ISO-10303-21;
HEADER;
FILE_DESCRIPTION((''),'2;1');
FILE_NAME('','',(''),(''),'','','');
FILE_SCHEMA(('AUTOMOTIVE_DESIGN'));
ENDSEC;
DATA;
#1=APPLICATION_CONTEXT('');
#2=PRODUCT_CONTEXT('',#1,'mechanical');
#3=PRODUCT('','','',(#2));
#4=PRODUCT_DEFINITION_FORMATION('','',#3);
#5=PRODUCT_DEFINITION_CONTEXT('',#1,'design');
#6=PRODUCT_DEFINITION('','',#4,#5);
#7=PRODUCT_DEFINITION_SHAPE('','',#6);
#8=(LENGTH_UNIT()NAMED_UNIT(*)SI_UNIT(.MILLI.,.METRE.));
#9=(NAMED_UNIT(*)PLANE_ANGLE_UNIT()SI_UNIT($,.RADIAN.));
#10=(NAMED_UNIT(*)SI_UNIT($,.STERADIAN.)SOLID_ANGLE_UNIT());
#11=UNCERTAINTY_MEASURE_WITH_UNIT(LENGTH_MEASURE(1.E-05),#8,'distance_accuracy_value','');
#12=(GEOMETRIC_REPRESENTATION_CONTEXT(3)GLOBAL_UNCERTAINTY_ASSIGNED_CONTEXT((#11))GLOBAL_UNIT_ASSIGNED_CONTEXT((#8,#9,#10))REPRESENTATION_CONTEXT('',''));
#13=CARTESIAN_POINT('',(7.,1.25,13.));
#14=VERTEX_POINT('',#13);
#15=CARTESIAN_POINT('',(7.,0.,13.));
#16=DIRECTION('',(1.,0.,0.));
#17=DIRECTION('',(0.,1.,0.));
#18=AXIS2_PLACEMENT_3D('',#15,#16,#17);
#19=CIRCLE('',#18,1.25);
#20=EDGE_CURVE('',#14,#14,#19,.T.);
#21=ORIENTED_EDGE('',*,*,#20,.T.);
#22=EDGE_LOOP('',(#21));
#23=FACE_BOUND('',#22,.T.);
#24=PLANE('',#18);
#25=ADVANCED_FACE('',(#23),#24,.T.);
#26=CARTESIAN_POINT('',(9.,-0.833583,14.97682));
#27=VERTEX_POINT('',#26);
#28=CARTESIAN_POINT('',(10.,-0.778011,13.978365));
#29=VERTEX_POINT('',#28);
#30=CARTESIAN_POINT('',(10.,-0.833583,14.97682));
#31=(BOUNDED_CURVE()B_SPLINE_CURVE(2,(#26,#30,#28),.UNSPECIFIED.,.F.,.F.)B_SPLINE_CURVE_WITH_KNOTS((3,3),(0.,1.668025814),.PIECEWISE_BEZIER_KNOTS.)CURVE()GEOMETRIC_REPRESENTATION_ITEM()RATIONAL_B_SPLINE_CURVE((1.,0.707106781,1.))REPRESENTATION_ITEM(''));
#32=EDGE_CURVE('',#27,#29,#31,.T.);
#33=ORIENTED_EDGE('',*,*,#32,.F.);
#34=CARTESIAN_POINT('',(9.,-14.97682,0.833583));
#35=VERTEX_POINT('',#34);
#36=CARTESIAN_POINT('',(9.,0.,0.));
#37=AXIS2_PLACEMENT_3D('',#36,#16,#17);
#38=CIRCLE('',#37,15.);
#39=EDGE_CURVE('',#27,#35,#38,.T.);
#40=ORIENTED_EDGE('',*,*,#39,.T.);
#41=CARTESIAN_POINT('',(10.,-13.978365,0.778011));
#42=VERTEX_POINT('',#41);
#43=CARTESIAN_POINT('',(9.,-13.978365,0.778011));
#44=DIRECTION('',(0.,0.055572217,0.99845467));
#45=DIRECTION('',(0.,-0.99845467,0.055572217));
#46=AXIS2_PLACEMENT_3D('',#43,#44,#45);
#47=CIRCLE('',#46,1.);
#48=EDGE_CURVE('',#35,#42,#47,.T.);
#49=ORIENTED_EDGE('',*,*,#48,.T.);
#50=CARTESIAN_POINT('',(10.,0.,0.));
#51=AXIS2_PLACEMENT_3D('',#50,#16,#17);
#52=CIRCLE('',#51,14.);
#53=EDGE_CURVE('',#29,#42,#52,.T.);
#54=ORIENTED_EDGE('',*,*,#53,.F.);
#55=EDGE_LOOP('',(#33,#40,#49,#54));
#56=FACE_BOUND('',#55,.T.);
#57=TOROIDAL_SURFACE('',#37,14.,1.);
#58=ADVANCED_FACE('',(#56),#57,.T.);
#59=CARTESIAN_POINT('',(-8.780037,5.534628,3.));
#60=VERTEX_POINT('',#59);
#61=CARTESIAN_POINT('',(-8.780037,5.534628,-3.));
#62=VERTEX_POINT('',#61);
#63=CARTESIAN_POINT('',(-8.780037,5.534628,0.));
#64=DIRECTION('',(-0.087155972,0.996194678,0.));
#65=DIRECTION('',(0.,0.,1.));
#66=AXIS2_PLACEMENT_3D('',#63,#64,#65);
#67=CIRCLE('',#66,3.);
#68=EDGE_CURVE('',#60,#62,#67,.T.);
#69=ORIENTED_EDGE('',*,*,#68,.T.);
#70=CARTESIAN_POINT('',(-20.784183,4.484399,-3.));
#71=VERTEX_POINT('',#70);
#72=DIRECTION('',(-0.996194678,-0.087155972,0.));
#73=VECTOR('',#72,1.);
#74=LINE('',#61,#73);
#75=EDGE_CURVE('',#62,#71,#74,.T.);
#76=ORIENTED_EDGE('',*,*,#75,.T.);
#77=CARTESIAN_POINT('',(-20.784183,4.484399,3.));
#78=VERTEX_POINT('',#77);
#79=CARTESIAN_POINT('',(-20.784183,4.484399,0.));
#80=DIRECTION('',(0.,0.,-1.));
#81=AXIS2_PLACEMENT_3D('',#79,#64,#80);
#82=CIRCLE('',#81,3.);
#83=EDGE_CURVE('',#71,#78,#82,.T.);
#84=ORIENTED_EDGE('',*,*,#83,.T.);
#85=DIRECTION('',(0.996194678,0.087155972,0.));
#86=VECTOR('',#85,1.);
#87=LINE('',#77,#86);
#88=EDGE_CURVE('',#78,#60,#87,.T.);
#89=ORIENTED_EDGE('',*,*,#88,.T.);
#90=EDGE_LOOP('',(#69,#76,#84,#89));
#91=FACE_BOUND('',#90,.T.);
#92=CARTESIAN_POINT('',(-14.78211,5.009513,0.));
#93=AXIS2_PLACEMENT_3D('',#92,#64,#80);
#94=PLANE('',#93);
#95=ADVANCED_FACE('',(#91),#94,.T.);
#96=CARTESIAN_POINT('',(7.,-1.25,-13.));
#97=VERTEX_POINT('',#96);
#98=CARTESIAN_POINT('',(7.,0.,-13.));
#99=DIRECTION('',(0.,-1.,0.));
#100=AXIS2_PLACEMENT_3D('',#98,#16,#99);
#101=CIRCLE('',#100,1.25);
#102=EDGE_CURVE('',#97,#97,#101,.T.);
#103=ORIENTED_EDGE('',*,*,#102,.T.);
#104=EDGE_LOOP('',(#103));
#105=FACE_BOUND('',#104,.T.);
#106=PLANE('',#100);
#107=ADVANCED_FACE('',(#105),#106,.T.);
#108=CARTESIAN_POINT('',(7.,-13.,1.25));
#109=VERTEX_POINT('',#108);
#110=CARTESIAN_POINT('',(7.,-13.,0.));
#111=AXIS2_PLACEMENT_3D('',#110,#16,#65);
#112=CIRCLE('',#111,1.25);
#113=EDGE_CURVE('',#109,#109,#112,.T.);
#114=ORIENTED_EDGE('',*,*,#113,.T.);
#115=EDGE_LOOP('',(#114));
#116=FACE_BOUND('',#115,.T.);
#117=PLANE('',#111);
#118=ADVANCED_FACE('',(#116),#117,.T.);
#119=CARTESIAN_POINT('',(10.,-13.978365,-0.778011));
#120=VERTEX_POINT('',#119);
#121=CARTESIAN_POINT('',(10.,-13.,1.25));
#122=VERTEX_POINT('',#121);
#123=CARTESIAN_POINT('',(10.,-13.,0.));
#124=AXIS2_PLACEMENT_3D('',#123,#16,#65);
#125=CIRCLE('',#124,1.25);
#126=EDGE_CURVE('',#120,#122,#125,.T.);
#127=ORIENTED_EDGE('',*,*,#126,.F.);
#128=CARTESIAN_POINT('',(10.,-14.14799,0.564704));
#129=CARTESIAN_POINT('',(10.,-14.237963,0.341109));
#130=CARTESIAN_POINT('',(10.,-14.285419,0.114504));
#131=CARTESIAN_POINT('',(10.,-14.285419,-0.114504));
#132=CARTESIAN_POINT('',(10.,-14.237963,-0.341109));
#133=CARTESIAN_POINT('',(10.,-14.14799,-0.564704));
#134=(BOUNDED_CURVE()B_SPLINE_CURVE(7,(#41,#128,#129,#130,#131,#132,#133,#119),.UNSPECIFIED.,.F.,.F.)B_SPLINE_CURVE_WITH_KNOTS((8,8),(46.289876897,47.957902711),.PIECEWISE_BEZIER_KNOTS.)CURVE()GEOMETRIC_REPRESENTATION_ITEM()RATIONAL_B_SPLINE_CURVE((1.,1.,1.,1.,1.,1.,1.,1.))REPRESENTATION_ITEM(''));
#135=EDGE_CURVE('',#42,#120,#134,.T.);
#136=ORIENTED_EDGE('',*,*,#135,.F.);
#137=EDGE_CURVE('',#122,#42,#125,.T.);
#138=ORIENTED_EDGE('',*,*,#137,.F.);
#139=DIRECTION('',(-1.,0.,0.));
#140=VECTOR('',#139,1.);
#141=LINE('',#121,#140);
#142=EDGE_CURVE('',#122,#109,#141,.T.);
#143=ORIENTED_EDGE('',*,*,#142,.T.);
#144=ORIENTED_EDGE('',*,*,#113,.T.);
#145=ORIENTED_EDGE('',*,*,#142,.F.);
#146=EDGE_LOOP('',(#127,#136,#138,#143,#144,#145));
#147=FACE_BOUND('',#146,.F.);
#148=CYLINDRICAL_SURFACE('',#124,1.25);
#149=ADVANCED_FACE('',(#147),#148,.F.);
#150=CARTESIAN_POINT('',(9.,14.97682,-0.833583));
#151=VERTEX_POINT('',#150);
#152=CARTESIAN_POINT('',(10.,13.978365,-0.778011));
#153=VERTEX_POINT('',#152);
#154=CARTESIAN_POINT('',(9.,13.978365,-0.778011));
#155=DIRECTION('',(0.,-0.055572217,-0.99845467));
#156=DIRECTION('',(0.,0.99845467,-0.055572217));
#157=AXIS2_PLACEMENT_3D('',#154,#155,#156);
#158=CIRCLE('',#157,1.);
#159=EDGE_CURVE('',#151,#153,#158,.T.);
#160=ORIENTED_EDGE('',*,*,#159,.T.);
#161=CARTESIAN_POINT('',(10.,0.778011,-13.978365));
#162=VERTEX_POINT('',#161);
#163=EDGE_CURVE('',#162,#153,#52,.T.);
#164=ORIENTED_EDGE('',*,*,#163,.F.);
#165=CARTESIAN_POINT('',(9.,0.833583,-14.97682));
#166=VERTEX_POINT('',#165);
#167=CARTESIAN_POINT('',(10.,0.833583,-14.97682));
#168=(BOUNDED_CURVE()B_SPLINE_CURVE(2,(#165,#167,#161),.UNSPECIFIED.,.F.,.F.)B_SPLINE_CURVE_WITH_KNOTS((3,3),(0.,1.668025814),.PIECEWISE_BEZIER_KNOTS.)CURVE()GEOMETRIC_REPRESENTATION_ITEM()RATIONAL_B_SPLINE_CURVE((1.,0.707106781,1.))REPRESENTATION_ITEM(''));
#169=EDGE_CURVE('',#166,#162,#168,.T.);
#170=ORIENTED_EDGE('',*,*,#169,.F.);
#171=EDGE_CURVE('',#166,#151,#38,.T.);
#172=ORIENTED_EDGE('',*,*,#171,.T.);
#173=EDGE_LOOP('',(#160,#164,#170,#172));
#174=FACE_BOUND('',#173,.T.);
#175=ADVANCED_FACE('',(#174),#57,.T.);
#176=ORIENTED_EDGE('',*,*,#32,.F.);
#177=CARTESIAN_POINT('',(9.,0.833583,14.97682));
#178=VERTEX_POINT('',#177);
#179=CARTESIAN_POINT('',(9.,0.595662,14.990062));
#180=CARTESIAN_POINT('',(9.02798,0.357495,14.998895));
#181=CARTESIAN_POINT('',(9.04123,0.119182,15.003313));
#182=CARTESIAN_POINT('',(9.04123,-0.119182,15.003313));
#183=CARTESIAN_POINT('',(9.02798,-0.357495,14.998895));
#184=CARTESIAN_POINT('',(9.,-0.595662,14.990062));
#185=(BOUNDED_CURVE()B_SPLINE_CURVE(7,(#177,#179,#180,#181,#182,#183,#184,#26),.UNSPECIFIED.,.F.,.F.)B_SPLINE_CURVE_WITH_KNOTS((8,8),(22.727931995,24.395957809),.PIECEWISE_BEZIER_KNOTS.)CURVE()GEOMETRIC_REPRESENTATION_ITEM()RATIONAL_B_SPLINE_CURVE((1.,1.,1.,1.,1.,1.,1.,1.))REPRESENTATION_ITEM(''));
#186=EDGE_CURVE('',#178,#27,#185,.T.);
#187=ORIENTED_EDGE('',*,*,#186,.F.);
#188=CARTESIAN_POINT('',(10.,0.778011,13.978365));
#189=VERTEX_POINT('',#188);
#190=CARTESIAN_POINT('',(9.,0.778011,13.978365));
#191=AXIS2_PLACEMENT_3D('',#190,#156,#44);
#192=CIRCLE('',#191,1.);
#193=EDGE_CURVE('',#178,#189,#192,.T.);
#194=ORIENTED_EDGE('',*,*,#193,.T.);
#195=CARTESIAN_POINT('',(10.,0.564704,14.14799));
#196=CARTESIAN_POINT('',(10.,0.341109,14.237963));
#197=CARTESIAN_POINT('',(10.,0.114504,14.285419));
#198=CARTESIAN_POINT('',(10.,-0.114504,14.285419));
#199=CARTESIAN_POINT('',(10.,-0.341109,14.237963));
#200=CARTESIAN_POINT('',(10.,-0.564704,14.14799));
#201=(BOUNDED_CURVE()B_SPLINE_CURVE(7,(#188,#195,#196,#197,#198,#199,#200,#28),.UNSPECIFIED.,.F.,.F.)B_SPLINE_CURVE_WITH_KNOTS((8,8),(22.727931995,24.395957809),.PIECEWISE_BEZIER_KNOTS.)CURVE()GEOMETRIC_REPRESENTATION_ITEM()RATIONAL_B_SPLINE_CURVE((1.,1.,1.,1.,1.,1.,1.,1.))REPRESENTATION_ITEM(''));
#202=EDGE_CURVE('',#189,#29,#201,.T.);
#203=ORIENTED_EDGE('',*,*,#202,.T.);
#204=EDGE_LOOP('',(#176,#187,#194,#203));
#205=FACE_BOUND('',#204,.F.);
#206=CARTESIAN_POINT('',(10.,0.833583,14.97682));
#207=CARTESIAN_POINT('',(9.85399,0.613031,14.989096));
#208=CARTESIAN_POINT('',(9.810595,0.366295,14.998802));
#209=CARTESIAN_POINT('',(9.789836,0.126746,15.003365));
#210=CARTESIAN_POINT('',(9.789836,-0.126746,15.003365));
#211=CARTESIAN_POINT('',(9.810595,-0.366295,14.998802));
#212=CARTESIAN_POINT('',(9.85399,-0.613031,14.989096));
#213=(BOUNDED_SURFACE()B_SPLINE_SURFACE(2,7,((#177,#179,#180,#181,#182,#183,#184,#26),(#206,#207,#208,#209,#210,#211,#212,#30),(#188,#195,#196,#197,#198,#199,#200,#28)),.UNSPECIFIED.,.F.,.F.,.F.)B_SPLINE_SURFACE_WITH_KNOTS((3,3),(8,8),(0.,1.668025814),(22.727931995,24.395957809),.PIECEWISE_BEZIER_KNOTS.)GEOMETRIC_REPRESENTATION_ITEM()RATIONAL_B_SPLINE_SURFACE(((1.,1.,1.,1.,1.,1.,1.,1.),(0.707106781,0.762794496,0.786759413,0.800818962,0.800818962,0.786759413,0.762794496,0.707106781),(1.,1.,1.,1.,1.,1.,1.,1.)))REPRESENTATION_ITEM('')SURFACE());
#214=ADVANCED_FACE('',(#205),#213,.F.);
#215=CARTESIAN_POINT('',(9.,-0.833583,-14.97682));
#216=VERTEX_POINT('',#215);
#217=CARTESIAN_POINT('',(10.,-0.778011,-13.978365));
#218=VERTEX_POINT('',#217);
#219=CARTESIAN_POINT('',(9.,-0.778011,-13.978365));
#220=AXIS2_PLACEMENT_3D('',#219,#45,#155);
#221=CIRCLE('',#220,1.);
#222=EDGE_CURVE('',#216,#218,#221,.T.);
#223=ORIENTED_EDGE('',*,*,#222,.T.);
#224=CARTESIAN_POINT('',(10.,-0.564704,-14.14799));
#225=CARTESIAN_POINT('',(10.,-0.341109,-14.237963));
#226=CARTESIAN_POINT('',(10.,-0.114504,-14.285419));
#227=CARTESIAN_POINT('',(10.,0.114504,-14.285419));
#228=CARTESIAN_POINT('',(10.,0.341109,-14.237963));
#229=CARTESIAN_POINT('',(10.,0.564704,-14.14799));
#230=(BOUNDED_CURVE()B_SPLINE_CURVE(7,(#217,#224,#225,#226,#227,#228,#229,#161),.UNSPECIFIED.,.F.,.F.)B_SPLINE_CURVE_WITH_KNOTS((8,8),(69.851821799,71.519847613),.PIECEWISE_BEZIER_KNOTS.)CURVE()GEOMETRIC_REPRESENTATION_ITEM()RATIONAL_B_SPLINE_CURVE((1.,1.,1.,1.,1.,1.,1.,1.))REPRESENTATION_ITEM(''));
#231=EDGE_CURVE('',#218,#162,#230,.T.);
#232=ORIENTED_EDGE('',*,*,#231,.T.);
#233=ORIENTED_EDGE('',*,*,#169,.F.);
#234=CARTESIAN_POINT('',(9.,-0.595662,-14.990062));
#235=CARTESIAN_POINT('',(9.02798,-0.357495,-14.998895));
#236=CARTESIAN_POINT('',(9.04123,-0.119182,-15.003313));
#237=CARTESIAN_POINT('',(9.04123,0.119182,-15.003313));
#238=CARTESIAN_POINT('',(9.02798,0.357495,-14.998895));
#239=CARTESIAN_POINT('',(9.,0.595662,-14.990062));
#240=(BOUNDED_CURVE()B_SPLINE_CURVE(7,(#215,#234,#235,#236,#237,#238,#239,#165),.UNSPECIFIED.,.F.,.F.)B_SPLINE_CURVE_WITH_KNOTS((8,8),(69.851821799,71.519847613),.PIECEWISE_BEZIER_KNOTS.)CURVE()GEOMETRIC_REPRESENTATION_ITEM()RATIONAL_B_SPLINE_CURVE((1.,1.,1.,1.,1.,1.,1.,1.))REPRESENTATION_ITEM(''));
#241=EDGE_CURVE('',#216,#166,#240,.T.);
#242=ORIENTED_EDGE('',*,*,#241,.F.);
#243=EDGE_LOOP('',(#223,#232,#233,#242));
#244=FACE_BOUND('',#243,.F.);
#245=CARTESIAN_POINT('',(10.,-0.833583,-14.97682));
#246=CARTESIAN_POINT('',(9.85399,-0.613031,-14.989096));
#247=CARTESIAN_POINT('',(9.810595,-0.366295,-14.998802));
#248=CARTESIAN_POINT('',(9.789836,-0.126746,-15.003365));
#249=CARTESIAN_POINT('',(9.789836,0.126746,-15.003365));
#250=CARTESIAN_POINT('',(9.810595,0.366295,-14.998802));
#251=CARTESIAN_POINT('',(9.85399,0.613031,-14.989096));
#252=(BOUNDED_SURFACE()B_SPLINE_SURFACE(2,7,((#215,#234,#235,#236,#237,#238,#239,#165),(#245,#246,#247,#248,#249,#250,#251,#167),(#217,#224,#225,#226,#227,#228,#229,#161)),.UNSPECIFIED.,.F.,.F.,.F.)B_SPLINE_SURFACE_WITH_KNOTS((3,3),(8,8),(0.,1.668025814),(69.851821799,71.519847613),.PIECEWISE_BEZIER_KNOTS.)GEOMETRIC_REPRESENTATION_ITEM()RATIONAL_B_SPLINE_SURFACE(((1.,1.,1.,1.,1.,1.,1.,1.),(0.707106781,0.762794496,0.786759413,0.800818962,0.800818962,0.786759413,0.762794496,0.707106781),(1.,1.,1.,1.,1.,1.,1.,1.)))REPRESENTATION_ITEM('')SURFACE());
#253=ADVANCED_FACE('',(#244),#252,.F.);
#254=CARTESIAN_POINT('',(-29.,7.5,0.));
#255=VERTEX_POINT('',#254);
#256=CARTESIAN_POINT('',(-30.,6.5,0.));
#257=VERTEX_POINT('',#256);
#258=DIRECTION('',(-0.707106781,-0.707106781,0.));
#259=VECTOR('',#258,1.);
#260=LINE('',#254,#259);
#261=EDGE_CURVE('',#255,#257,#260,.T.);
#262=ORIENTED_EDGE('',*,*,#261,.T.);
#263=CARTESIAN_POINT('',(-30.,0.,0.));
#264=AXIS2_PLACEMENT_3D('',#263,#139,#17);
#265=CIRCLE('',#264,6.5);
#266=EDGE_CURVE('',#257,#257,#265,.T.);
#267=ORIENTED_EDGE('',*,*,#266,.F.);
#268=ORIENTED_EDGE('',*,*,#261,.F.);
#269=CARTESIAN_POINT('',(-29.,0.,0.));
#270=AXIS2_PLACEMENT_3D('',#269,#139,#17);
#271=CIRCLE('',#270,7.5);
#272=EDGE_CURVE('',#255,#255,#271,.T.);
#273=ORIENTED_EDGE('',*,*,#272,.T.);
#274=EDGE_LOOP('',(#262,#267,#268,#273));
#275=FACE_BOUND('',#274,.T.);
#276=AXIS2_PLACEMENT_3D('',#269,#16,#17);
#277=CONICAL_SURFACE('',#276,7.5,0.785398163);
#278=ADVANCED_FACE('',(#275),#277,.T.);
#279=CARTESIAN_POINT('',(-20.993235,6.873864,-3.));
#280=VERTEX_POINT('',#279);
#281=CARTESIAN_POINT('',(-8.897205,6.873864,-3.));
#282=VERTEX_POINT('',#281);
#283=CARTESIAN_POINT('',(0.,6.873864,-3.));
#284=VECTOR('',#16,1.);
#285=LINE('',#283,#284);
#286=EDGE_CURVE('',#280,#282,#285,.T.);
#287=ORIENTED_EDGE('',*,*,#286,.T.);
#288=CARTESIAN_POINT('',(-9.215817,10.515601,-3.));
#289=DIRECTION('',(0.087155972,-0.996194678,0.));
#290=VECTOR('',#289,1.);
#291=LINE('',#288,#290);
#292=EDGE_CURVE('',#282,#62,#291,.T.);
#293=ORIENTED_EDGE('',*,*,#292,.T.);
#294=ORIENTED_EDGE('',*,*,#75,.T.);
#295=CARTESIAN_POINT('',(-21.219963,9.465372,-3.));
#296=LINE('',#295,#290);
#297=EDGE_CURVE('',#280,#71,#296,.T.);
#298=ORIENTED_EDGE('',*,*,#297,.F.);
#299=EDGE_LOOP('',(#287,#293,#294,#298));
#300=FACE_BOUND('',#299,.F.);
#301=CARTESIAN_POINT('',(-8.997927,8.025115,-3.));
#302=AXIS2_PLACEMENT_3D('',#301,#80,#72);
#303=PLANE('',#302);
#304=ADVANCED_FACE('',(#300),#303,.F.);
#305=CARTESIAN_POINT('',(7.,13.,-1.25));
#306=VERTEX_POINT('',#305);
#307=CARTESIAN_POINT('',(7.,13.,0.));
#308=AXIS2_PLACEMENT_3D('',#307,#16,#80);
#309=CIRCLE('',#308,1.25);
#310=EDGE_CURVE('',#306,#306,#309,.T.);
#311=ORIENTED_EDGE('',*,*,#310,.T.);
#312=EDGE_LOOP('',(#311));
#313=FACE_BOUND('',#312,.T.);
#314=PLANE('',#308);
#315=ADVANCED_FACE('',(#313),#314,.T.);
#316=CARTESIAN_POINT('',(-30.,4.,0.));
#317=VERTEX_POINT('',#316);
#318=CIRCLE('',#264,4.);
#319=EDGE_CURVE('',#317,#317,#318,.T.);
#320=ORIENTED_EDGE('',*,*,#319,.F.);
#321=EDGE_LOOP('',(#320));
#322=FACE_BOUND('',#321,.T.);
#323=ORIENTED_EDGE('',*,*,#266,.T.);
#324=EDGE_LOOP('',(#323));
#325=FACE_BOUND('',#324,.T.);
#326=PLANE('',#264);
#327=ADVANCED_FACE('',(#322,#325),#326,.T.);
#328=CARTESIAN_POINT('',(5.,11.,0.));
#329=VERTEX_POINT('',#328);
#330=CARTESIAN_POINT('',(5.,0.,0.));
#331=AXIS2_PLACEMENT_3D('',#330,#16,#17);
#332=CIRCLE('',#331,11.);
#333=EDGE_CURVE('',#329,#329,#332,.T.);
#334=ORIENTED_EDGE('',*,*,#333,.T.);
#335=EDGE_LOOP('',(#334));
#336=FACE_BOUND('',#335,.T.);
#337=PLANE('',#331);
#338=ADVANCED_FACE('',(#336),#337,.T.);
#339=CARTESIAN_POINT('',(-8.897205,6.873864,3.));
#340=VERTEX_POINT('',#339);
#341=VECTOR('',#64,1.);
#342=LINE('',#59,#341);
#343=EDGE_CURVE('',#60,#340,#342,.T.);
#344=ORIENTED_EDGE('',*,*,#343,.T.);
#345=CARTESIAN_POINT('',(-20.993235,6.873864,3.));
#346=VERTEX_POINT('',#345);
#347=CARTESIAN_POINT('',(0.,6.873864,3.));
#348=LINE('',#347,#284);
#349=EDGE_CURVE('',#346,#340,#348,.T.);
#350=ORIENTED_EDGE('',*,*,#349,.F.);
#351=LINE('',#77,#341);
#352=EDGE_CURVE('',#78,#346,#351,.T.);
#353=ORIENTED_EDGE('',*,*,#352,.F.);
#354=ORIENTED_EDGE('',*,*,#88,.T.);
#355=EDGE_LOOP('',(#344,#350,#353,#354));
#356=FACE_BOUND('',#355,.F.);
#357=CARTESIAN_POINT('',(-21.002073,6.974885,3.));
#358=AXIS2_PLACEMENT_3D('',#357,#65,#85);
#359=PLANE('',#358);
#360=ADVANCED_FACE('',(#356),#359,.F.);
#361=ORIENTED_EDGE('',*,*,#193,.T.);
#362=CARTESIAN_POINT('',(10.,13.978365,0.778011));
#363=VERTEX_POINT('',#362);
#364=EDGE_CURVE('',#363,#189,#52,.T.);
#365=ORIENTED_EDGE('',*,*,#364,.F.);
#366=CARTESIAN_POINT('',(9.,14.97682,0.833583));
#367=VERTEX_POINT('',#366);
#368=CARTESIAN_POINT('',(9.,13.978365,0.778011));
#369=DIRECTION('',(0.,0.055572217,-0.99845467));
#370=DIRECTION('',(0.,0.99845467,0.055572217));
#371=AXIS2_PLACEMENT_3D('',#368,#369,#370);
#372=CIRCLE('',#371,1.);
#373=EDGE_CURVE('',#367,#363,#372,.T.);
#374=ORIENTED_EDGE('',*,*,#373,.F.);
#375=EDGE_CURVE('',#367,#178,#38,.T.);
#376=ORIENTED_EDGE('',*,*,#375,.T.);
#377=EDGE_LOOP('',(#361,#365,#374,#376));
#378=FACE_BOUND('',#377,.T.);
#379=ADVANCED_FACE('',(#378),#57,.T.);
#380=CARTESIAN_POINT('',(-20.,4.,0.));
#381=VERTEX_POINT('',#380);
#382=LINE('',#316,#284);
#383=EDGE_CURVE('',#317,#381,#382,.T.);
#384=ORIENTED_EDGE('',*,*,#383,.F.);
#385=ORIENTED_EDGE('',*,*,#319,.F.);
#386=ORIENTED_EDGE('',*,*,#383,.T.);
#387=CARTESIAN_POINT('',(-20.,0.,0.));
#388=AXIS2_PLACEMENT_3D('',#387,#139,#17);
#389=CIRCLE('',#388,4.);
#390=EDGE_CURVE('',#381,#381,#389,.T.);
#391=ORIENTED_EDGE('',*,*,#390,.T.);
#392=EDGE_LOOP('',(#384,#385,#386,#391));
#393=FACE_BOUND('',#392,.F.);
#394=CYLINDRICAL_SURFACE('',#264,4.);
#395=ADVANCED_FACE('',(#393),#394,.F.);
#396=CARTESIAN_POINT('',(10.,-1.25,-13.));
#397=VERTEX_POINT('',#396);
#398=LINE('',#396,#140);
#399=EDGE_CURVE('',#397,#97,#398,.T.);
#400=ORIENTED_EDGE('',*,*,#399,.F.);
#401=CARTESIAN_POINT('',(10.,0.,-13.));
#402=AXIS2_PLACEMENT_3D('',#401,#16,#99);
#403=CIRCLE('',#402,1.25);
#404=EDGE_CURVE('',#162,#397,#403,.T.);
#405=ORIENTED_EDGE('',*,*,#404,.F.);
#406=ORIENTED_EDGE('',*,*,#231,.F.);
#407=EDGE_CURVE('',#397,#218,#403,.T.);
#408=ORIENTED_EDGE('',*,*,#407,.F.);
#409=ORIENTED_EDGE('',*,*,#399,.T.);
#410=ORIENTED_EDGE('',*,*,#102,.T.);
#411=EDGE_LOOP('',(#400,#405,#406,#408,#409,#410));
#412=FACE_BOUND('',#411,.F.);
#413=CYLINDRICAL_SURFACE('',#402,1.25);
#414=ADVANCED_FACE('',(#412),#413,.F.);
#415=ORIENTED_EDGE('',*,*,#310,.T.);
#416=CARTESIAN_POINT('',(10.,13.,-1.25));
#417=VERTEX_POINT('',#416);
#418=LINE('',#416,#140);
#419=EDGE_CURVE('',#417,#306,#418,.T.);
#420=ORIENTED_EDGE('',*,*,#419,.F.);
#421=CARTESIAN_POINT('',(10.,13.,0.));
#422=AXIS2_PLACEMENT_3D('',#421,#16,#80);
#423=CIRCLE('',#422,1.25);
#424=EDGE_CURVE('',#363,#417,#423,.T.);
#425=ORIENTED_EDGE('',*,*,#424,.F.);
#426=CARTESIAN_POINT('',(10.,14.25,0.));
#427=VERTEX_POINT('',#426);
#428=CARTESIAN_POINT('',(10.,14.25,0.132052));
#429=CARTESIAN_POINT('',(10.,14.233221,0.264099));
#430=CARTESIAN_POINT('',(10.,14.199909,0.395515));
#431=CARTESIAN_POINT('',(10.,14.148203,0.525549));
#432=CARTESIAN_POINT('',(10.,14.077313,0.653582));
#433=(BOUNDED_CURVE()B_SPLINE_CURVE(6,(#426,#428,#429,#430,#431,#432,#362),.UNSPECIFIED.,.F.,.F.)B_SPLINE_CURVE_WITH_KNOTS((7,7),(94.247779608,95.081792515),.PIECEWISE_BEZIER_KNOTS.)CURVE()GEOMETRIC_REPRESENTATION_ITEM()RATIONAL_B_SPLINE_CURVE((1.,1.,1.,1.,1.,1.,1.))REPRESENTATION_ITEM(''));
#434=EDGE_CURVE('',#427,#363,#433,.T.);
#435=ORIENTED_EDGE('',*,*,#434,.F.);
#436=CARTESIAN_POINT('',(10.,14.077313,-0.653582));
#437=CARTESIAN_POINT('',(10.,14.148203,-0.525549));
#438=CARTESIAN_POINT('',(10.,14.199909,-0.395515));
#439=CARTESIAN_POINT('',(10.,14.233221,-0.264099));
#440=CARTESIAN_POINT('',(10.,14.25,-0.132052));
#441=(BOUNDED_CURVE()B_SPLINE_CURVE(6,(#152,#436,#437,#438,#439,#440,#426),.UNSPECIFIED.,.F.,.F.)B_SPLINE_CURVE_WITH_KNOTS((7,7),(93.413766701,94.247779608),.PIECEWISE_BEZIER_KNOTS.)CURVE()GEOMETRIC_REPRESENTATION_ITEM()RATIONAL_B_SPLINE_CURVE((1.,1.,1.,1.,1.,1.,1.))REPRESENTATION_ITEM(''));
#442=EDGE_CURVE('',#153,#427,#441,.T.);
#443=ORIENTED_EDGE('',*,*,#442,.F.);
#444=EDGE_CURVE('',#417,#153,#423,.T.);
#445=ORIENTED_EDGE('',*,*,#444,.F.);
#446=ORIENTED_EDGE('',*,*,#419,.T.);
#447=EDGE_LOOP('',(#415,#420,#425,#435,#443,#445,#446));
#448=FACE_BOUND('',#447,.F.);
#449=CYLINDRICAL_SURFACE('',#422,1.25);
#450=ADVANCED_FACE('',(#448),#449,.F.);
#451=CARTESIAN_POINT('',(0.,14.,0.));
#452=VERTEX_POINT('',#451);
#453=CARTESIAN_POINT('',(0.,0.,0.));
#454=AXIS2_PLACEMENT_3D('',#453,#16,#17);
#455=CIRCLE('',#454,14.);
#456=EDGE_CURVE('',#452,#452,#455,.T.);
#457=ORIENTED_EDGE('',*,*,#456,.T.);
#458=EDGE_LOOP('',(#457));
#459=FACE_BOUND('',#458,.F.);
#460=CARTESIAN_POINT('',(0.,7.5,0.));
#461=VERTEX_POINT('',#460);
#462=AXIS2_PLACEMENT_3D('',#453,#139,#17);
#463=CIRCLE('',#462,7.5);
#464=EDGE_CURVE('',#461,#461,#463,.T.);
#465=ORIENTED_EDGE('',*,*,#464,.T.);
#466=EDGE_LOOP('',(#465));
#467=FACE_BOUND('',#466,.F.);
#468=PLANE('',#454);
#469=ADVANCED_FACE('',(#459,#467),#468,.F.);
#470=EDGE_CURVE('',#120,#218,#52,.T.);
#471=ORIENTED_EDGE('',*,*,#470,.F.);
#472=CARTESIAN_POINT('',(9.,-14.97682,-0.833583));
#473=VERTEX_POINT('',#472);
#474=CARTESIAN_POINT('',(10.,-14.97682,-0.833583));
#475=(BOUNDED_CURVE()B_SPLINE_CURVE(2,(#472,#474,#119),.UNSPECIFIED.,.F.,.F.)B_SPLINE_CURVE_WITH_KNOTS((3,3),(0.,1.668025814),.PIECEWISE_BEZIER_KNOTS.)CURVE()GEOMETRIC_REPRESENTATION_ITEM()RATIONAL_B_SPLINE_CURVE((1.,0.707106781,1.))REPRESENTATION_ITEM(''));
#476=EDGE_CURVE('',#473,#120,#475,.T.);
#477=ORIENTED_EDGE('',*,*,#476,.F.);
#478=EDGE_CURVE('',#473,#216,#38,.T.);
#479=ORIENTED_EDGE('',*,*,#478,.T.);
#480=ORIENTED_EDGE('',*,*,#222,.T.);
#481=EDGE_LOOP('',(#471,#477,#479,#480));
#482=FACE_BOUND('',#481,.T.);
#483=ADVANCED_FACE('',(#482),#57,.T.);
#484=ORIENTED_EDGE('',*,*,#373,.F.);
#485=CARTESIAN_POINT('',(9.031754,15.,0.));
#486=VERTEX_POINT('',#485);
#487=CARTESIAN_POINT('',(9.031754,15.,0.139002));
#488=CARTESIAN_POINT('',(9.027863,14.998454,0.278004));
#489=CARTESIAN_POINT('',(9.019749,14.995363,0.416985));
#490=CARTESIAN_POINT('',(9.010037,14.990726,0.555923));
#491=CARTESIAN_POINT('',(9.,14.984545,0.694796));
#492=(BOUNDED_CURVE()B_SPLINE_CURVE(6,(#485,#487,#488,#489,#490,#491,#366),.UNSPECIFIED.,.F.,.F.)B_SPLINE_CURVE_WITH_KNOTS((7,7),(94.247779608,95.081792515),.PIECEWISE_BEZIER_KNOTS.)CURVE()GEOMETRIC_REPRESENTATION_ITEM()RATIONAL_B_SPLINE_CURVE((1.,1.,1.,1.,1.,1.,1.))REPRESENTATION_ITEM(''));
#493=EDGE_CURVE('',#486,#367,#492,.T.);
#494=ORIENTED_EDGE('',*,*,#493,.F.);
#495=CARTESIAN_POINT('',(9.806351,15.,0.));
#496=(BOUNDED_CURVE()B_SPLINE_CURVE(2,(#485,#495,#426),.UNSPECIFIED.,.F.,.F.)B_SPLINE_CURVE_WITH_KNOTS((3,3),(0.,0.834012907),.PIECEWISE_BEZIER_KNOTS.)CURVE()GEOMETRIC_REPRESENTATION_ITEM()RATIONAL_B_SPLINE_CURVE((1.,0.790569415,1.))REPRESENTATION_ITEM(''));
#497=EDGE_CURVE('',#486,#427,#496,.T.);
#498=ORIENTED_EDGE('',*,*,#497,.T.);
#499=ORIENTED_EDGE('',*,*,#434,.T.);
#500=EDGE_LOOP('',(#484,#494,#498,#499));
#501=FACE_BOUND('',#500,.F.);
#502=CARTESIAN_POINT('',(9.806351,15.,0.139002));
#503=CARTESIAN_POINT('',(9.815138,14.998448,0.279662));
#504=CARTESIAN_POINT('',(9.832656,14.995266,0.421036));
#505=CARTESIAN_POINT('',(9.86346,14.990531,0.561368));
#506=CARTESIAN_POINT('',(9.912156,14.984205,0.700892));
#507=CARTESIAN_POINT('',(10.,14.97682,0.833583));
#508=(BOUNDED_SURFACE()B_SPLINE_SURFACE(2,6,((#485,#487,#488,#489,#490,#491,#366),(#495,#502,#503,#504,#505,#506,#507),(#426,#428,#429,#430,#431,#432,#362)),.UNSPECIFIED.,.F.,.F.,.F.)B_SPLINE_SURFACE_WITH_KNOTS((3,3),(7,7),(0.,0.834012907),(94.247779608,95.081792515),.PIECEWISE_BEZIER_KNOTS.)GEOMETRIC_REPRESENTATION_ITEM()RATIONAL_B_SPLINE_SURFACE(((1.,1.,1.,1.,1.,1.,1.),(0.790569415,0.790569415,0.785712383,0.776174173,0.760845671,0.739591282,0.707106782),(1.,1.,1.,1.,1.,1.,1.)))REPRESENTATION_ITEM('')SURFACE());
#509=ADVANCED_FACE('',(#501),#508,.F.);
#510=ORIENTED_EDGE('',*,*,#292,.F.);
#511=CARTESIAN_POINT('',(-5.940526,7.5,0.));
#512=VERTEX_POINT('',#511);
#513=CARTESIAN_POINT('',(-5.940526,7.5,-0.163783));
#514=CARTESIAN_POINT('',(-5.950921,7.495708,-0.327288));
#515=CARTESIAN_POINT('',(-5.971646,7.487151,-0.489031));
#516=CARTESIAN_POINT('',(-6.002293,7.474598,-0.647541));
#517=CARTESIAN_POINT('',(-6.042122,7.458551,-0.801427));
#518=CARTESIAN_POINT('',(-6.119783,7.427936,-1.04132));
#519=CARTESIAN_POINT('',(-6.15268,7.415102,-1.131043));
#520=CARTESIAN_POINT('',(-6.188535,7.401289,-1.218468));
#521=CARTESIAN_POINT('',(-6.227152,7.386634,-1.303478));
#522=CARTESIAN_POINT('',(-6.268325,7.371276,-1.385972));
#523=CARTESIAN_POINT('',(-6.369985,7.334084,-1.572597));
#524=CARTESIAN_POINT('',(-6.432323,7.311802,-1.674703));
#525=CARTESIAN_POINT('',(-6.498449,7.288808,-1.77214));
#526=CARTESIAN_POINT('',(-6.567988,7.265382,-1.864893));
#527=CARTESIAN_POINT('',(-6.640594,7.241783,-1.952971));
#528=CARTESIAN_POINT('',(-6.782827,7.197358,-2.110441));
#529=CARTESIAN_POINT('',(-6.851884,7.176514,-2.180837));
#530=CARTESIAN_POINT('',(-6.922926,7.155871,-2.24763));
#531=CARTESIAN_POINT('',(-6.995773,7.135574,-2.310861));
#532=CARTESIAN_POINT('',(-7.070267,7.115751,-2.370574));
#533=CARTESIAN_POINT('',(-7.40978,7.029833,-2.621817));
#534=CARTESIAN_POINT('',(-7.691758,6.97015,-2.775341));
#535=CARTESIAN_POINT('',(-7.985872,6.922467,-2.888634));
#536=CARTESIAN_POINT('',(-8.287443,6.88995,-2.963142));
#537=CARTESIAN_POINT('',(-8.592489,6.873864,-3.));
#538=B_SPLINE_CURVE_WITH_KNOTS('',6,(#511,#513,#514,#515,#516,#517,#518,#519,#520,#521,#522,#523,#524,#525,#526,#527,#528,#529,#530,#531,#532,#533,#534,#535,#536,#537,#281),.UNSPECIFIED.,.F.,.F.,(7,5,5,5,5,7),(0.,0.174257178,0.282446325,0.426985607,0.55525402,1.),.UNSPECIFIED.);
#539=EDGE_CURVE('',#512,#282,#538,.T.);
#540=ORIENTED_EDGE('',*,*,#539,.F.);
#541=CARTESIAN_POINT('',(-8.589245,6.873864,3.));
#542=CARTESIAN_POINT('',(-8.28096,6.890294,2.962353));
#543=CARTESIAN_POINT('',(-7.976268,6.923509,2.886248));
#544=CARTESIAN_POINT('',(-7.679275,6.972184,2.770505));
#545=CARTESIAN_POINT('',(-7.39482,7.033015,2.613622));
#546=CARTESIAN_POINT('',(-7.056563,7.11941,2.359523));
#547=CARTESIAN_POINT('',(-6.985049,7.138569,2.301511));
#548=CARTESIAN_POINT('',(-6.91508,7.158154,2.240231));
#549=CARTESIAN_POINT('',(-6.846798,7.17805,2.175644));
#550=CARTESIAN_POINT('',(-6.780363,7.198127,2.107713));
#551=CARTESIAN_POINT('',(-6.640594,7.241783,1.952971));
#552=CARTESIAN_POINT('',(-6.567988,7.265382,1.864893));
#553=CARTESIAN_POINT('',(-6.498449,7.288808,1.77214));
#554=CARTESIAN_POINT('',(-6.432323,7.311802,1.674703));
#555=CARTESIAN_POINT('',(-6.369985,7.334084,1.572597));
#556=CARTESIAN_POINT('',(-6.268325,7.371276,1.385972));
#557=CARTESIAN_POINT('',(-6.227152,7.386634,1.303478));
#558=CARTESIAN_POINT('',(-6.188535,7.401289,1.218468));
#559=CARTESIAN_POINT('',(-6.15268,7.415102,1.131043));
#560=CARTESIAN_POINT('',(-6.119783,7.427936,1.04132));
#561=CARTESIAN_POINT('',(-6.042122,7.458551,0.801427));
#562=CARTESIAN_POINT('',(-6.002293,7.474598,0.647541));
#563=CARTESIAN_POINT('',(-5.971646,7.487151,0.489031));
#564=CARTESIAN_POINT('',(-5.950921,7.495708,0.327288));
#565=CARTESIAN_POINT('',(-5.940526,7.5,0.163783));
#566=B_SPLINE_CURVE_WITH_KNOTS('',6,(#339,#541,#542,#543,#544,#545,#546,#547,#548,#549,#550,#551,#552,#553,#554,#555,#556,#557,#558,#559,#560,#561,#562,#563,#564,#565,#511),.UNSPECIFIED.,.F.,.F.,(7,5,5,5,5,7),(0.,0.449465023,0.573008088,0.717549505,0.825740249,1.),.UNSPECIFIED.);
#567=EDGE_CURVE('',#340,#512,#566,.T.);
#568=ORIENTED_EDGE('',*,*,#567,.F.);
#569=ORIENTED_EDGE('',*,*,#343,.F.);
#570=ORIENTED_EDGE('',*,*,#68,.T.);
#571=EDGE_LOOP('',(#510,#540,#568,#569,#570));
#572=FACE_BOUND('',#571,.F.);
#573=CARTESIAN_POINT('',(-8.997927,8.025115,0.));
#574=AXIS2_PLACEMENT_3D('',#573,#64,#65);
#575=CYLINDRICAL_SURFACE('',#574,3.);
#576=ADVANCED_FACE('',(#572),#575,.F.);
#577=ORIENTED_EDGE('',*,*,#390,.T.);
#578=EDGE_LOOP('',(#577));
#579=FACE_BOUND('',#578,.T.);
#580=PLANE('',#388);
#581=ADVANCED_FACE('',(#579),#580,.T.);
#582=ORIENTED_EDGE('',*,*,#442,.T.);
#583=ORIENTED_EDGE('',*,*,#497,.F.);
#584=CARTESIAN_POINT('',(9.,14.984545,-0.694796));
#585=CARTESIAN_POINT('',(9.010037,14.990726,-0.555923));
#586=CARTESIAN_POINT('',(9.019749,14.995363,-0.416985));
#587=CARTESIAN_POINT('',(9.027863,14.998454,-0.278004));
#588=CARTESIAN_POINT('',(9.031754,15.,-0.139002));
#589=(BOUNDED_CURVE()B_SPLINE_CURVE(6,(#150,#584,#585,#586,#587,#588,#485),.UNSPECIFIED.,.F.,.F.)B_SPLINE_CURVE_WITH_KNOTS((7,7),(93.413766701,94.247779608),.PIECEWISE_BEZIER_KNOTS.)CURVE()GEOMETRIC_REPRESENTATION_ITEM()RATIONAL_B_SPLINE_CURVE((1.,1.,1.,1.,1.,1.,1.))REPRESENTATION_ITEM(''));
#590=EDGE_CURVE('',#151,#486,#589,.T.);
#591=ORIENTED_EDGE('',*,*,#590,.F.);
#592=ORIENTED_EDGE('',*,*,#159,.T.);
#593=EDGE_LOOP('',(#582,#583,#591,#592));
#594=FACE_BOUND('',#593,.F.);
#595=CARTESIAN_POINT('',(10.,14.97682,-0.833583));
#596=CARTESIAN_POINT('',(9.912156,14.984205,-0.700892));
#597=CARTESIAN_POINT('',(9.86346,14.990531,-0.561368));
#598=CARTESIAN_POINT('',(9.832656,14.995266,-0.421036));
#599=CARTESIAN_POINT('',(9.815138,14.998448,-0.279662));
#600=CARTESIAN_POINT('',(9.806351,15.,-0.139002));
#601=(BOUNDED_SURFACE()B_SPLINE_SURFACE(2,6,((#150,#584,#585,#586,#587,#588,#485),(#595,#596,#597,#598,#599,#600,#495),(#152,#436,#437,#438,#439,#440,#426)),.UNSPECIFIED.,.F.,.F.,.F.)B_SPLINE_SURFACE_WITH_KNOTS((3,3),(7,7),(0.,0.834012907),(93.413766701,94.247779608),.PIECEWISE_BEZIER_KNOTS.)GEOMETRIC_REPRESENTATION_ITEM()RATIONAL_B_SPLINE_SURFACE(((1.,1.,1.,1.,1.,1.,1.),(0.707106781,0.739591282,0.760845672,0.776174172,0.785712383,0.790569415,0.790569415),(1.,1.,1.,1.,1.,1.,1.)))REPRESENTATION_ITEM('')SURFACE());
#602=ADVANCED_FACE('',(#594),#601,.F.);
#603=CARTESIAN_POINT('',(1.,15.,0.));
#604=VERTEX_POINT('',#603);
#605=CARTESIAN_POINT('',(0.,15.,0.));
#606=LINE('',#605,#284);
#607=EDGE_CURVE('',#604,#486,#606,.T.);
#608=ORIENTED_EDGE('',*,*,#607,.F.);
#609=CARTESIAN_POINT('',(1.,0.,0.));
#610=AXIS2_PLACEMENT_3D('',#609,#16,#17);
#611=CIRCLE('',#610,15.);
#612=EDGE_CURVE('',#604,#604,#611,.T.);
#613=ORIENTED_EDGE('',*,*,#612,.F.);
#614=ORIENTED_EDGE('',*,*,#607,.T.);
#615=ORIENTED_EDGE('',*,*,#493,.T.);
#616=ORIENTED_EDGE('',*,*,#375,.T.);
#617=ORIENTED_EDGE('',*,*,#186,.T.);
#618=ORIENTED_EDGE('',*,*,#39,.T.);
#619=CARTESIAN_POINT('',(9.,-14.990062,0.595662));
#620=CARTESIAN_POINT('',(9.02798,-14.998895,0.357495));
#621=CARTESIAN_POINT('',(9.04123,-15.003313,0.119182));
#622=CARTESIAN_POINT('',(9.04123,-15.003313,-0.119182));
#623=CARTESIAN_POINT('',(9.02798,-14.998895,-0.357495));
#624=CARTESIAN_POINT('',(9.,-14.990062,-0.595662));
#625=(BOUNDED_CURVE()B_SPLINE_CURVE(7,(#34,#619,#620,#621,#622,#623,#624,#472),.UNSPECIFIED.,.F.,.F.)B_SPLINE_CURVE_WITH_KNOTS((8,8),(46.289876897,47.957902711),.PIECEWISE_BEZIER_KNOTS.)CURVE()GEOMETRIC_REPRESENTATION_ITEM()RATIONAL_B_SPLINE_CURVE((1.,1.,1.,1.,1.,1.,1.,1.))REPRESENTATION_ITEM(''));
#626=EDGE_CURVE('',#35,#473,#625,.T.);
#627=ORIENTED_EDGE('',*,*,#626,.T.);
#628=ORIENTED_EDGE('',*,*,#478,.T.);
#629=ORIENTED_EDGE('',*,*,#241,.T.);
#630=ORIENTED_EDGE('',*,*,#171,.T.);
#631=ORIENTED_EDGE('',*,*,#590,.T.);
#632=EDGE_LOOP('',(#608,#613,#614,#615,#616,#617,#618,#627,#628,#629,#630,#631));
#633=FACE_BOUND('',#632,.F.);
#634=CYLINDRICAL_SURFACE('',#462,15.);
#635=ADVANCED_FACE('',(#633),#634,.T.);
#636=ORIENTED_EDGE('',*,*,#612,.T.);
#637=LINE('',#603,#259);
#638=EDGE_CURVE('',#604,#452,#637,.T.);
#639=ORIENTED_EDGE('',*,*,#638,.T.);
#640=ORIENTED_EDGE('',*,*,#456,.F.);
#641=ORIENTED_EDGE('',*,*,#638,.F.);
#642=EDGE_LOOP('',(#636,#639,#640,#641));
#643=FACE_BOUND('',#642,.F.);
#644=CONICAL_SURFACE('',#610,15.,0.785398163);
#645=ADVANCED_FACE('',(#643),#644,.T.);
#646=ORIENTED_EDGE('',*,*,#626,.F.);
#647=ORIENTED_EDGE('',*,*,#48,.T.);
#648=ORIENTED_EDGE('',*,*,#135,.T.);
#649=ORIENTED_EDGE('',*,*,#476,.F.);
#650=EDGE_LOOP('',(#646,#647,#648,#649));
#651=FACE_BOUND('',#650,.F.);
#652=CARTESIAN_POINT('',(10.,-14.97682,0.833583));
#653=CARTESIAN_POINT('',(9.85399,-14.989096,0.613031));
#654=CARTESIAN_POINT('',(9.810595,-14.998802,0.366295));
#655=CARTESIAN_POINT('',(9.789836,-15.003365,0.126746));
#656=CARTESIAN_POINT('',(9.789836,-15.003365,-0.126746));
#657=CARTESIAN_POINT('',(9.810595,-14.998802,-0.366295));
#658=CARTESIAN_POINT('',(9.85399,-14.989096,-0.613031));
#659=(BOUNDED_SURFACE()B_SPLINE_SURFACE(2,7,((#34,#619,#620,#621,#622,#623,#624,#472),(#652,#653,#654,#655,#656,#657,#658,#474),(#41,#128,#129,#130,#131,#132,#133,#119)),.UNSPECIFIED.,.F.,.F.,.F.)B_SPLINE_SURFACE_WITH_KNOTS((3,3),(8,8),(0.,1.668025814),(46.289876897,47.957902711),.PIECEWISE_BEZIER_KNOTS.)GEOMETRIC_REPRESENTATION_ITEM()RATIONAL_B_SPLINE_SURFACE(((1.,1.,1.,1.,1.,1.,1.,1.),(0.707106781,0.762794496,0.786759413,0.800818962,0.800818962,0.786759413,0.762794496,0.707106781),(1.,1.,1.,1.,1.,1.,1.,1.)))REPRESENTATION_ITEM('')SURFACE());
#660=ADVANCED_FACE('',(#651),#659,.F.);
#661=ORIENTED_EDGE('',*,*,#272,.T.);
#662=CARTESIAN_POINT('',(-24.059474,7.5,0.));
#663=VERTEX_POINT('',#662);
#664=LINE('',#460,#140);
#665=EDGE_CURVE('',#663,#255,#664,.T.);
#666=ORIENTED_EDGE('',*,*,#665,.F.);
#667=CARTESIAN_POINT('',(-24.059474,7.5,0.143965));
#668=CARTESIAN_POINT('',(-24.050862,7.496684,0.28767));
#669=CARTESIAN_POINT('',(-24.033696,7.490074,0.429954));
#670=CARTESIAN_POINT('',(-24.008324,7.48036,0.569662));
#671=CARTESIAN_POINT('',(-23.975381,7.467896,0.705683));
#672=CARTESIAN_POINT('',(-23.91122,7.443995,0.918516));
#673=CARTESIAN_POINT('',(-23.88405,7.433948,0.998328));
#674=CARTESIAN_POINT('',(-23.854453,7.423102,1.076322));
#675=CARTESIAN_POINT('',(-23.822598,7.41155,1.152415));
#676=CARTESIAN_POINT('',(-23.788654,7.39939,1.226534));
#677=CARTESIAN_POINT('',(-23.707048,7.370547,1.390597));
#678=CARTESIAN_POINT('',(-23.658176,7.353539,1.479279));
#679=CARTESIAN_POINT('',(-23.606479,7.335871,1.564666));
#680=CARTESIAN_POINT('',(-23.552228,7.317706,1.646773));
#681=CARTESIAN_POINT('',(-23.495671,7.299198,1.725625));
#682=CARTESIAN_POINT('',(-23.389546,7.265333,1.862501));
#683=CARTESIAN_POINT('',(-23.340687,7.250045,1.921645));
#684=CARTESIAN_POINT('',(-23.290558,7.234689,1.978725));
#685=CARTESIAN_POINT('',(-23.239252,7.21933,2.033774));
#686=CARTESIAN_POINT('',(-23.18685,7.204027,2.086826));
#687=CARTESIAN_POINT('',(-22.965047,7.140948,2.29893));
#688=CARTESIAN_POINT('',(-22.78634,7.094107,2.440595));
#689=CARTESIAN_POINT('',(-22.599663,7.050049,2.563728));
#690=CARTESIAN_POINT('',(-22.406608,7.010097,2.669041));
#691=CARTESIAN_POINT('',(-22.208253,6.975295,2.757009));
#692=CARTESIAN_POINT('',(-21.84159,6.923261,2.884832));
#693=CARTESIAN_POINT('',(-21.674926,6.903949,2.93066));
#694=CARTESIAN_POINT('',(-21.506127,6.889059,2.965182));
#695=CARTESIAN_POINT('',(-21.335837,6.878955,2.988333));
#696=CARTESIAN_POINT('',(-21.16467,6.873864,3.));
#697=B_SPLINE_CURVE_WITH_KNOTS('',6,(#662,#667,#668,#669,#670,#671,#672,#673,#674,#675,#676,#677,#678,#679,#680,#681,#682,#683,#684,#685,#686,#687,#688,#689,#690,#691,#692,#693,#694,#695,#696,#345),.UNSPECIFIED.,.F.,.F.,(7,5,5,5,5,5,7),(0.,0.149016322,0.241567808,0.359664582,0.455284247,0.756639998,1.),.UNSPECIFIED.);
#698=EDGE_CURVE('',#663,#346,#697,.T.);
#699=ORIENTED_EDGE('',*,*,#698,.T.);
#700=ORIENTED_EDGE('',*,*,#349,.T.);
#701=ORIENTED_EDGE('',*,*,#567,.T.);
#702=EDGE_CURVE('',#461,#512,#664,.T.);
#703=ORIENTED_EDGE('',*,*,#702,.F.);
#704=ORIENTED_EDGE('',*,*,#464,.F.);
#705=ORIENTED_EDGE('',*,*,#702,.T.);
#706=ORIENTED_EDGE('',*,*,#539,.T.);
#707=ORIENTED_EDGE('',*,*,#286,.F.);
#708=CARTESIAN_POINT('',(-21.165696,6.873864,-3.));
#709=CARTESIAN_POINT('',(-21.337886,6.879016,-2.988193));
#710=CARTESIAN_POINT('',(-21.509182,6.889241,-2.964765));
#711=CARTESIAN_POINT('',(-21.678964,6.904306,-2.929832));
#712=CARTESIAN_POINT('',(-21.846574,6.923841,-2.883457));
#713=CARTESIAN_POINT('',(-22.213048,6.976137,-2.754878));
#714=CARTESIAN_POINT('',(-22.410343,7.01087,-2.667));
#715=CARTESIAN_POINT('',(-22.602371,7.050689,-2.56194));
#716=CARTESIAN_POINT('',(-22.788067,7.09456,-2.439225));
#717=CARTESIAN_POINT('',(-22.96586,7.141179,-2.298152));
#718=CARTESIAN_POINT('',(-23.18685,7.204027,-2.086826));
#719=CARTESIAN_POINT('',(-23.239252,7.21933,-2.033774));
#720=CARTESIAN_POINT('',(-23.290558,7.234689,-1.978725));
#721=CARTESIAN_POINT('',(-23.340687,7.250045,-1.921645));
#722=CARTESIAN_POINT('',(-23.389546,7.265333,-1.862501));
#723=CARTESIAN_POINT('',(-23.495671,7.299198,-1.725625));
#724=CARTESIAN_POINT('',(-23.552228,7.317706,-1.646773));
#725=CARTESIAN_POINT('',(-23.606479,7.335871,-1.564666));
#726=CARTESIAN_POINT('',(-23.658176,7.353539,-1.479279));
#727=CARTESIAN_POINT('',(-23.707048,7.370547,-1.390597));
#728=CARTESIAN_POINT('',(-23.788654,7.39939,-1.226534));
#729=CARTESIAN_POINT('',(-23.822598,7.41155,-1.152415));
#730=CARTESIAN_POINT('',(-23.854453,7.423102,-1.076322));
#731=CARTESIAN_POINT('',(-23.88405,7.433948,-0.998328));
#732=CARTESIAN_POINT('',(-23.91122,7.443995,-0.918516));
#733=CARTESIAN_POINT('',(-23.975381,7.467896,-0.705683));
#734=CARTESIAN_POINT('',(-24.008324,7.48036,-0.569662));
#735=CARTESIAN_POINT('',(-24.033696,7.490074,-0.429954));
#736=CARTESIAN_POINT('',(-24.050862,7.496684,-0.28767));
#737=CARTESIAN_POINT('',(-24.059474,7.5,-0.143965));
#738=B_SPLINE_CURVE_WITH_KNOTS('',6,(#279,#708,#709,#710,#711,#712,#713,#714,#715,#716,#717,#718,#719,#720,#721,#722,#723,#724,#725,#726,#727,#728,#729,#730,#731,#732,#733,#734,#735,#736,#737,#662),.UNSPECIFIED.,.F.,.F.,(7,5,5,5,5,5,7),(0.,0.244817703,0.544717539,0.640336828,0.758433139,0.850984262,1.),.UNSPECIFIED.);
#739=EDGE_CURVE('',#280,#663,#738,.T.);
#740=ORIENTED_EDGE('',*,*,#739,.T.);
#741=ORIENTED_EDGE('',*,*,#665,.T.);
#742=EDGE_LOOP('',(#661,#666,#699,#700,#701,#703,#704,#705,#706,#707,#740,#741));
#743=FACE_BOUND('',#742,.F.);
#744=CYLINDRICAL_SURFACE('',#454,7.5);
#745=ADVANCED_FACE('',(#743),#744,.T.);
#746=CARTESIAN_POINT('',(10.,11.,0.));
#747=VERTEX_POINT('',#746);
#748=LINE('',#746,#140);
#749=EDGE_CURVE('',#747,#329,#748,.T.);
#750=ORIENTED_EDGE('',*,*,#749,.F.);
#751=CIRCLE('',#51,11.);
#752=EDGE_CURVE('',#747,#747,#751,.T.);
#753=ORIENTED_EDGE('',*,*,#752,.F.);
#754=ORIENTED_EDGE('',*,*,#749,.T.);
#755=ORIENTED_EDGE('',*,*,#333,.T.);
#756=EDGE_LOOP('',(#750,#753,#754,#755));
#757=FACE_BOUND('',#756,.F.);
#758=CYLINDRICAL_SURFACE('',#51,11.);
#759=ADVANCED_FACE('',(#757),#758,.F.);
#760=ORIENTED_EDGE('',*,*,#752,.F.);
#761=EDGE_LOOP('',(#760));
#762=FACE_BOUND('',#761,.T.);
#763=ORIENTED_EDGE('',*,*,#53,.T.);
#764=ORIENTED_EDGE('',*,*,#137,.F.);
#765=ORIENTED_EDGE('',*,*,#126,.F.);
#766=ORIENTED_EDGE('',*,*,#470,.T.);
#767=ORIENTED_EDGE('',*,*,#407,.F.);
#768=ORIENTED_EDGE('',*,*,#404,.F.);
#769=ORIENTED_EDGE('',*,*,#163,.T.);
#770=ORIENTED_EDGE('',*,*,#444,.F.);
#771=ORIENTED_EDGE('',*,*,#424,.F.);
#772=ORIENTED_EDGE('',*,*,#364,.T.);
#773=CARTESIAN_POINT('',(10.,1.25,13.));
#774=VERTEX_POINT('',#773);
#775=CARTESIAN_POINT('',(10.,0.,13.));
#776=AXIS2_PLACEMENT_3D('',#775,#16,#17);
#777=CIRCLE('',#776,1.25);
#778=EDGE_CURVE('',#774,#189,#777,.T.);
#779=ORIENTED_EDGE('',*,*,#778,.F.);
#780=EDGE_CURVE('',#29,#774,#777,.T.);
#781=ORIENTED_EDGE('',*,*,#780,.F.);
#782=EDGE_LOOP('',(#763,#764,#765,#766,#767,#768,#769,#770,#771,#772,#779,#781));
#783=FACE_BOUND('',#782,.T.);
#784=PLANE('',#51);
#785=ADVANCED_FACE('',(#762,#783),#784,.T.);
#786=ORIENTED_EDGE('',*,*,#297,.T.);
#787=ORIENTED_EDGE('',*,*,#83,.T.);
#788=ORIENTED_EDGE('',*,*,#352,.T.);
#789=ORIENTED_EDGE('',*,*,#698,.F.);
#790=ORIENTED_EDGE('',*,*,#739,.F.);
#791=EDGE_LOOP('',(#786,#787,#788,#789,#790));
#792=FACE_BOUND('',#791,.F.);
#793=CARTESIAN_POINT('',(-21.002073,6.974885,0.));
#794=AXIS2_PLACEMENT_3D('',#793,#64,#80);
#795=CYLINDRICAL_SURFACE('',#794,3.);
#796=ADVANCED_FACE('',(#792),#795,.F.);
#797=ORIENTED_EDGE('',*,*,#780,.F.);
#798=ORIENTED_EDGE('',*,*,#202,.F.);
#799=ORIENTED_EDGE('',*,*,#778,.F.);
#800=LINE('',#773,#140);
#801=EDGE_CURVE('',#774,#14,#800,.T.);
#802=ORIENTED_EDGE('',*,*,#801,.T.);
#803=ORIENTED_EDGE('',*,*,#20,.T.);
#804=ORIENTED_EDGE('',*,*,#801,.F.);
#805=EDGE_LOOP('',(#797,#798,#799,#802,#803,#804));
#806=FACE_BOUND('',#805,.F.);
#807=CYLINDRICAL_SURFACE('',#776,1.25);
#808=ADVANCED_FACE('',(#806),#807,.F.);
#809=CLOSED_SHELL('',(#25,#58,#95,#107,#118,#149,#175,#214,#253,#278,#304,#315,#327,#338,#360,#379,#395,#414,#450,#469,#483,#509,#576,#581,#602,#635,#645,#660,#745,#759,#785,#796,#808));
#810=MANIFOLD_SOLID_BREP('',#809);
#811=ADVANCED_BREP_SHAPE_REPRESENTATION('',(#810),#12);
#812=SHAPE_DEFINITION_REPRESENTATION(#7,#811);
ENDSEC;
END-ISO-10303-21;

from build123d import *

# Parameters (mm, degrees)
SKETCH_R           = 15
PAD_DEPTH          = 10
SKETCH001_R        = 11
POCKET_DEPTH       = 5
SKETCH002_R        = 7.5
PAD001_DEPTH       = 30
SKETCH003_R        = 1.25
POCKET001_DEPTH    = 3
POLARPATTERN_COUNT = 4
SKETCH004_R        = 4
POCKET002_DEPTH    = 10
POCKET003_DEPTH    = 2.5
FILLET_R           = 1
CHAMFER_ANGLE      = 45
CHAMFER_SIZE       = 1
CHAMFER001_ANGLE   = 45
CHAMFER001_SIZE    = 1


with BuildPart() as part:
    # Sketch → Pad (new body)
    with BuildSketch(Plane.YZ):
        Circle(SKETCH_R)
    extrude(amount=PAD_DEPTH)

    # Sketch001 (on Face3 of Pad) → Pocket (cut)
    with BuildSketch(Plane.YZ.offset(10)):
        Circle(SKETCH001_R)
    extrude(amount=-POCKET_DEPTH, mode=Mode.SUBTRACT)

    # Sketch002 (on Face2 of Pocket) → Pad001 (join)
    with BuildSketch(Plane(origin=(0, 0, 0), x_dir=(0, 1, 0), z_dir=(-1, 0, 0))):
        Circle(SKETCH002_R)
    extrude(amount=PAD001_DEPTH)

    # Sketch003 (on Face3 of Pad001) → Pocket001 (cut)
    with BuildSketch(Plane.YZ.offset(10)):
        with Locations((0, 13)):
            Circle(SKETCH003_R)
    pocket001 = extrude(amount=-POCKET001_DEPTH, mode=Mode.SUBTRACT)

    # PolarPattern: Pocket001 ×4 about axis
    polarpattern_axis = Axis((10, 0, 0), (1, 0, 0))
    for i in range(1, POLARPATTERN_COUNT):
        add(pocket001.rotate(polarpattern_axis, i * 360 / POLARPATTERN_COUNT), mode=Mode.SUBTRACT)

    # Sketch004 (on Face10 of PolarPattern) → Pocket002 (cut)
    with BuildSketch(Plane(origin=(-30, 0, 0), x_dir=(0, 1, 0), z_dir=(-1, 0, 0))):
        Circle(SKETCH004_R)
    extrude(amount=-POCKET002_DEPTH, mode=Mode.SUBTRACT)

    # Sketch005 (on DatumPlane) → Pocket003 (cut, symmetric)
    with BuildSketch(Plane(origin=(-15, 7.5, 0), x_dir=(0, 0, -1), z_dir=(-0.087156, 0.996195, 0))):
        with BuildLine():
            ThreePointArc((3, 6.025), (0, 9.025), (-3, 6.025))
            Line((-3, 6.025), (-3, -6.025))
            ThreePointArc((-3, -6.025), (0, -9.025), (3, -6.025))
            Line((3, -6.025), (3, 6.025))
        make_face()
    extrude(amount=POCKET003_DEPTH, both=True, mode=Mode.SUBTRACT)

    # Fillet
    fillet_edges = [part.edges().sort_by_distance(p)[0] for p in [
        (10, -15, 0),
    ]]
    fillet(fillet_edges, radius=FILLET_R)

    # Chamfer
    chamfer_edges = [part.edges().sort_by_distance(p)[0] for p in [
        (0, -15, 0),
    ]]
    chamfer_side = part.faces().sort_by_distance((4.520615, -15, 0))[0]
    chamfer(chamfer_edges, length=CHAMFER_SIZE, angle=CHAMFER_ANGLE, reference=chamfer_side)

    # Chamfer001
    chamfer001_edges = [part.edges().sort_by_distance(p)[0] for p in [
        (-30, -7.5, 0),
    ]]
    chamfer001_side = part.faces().sort_by_distance((-15, -7.5, 0))[0]
    chamfer(chamfer001_edges, length=CHAMFER001_SIZE, angle=CHAMFER001_ANGLE, reference=chamfer001_side)


solid = part.part
